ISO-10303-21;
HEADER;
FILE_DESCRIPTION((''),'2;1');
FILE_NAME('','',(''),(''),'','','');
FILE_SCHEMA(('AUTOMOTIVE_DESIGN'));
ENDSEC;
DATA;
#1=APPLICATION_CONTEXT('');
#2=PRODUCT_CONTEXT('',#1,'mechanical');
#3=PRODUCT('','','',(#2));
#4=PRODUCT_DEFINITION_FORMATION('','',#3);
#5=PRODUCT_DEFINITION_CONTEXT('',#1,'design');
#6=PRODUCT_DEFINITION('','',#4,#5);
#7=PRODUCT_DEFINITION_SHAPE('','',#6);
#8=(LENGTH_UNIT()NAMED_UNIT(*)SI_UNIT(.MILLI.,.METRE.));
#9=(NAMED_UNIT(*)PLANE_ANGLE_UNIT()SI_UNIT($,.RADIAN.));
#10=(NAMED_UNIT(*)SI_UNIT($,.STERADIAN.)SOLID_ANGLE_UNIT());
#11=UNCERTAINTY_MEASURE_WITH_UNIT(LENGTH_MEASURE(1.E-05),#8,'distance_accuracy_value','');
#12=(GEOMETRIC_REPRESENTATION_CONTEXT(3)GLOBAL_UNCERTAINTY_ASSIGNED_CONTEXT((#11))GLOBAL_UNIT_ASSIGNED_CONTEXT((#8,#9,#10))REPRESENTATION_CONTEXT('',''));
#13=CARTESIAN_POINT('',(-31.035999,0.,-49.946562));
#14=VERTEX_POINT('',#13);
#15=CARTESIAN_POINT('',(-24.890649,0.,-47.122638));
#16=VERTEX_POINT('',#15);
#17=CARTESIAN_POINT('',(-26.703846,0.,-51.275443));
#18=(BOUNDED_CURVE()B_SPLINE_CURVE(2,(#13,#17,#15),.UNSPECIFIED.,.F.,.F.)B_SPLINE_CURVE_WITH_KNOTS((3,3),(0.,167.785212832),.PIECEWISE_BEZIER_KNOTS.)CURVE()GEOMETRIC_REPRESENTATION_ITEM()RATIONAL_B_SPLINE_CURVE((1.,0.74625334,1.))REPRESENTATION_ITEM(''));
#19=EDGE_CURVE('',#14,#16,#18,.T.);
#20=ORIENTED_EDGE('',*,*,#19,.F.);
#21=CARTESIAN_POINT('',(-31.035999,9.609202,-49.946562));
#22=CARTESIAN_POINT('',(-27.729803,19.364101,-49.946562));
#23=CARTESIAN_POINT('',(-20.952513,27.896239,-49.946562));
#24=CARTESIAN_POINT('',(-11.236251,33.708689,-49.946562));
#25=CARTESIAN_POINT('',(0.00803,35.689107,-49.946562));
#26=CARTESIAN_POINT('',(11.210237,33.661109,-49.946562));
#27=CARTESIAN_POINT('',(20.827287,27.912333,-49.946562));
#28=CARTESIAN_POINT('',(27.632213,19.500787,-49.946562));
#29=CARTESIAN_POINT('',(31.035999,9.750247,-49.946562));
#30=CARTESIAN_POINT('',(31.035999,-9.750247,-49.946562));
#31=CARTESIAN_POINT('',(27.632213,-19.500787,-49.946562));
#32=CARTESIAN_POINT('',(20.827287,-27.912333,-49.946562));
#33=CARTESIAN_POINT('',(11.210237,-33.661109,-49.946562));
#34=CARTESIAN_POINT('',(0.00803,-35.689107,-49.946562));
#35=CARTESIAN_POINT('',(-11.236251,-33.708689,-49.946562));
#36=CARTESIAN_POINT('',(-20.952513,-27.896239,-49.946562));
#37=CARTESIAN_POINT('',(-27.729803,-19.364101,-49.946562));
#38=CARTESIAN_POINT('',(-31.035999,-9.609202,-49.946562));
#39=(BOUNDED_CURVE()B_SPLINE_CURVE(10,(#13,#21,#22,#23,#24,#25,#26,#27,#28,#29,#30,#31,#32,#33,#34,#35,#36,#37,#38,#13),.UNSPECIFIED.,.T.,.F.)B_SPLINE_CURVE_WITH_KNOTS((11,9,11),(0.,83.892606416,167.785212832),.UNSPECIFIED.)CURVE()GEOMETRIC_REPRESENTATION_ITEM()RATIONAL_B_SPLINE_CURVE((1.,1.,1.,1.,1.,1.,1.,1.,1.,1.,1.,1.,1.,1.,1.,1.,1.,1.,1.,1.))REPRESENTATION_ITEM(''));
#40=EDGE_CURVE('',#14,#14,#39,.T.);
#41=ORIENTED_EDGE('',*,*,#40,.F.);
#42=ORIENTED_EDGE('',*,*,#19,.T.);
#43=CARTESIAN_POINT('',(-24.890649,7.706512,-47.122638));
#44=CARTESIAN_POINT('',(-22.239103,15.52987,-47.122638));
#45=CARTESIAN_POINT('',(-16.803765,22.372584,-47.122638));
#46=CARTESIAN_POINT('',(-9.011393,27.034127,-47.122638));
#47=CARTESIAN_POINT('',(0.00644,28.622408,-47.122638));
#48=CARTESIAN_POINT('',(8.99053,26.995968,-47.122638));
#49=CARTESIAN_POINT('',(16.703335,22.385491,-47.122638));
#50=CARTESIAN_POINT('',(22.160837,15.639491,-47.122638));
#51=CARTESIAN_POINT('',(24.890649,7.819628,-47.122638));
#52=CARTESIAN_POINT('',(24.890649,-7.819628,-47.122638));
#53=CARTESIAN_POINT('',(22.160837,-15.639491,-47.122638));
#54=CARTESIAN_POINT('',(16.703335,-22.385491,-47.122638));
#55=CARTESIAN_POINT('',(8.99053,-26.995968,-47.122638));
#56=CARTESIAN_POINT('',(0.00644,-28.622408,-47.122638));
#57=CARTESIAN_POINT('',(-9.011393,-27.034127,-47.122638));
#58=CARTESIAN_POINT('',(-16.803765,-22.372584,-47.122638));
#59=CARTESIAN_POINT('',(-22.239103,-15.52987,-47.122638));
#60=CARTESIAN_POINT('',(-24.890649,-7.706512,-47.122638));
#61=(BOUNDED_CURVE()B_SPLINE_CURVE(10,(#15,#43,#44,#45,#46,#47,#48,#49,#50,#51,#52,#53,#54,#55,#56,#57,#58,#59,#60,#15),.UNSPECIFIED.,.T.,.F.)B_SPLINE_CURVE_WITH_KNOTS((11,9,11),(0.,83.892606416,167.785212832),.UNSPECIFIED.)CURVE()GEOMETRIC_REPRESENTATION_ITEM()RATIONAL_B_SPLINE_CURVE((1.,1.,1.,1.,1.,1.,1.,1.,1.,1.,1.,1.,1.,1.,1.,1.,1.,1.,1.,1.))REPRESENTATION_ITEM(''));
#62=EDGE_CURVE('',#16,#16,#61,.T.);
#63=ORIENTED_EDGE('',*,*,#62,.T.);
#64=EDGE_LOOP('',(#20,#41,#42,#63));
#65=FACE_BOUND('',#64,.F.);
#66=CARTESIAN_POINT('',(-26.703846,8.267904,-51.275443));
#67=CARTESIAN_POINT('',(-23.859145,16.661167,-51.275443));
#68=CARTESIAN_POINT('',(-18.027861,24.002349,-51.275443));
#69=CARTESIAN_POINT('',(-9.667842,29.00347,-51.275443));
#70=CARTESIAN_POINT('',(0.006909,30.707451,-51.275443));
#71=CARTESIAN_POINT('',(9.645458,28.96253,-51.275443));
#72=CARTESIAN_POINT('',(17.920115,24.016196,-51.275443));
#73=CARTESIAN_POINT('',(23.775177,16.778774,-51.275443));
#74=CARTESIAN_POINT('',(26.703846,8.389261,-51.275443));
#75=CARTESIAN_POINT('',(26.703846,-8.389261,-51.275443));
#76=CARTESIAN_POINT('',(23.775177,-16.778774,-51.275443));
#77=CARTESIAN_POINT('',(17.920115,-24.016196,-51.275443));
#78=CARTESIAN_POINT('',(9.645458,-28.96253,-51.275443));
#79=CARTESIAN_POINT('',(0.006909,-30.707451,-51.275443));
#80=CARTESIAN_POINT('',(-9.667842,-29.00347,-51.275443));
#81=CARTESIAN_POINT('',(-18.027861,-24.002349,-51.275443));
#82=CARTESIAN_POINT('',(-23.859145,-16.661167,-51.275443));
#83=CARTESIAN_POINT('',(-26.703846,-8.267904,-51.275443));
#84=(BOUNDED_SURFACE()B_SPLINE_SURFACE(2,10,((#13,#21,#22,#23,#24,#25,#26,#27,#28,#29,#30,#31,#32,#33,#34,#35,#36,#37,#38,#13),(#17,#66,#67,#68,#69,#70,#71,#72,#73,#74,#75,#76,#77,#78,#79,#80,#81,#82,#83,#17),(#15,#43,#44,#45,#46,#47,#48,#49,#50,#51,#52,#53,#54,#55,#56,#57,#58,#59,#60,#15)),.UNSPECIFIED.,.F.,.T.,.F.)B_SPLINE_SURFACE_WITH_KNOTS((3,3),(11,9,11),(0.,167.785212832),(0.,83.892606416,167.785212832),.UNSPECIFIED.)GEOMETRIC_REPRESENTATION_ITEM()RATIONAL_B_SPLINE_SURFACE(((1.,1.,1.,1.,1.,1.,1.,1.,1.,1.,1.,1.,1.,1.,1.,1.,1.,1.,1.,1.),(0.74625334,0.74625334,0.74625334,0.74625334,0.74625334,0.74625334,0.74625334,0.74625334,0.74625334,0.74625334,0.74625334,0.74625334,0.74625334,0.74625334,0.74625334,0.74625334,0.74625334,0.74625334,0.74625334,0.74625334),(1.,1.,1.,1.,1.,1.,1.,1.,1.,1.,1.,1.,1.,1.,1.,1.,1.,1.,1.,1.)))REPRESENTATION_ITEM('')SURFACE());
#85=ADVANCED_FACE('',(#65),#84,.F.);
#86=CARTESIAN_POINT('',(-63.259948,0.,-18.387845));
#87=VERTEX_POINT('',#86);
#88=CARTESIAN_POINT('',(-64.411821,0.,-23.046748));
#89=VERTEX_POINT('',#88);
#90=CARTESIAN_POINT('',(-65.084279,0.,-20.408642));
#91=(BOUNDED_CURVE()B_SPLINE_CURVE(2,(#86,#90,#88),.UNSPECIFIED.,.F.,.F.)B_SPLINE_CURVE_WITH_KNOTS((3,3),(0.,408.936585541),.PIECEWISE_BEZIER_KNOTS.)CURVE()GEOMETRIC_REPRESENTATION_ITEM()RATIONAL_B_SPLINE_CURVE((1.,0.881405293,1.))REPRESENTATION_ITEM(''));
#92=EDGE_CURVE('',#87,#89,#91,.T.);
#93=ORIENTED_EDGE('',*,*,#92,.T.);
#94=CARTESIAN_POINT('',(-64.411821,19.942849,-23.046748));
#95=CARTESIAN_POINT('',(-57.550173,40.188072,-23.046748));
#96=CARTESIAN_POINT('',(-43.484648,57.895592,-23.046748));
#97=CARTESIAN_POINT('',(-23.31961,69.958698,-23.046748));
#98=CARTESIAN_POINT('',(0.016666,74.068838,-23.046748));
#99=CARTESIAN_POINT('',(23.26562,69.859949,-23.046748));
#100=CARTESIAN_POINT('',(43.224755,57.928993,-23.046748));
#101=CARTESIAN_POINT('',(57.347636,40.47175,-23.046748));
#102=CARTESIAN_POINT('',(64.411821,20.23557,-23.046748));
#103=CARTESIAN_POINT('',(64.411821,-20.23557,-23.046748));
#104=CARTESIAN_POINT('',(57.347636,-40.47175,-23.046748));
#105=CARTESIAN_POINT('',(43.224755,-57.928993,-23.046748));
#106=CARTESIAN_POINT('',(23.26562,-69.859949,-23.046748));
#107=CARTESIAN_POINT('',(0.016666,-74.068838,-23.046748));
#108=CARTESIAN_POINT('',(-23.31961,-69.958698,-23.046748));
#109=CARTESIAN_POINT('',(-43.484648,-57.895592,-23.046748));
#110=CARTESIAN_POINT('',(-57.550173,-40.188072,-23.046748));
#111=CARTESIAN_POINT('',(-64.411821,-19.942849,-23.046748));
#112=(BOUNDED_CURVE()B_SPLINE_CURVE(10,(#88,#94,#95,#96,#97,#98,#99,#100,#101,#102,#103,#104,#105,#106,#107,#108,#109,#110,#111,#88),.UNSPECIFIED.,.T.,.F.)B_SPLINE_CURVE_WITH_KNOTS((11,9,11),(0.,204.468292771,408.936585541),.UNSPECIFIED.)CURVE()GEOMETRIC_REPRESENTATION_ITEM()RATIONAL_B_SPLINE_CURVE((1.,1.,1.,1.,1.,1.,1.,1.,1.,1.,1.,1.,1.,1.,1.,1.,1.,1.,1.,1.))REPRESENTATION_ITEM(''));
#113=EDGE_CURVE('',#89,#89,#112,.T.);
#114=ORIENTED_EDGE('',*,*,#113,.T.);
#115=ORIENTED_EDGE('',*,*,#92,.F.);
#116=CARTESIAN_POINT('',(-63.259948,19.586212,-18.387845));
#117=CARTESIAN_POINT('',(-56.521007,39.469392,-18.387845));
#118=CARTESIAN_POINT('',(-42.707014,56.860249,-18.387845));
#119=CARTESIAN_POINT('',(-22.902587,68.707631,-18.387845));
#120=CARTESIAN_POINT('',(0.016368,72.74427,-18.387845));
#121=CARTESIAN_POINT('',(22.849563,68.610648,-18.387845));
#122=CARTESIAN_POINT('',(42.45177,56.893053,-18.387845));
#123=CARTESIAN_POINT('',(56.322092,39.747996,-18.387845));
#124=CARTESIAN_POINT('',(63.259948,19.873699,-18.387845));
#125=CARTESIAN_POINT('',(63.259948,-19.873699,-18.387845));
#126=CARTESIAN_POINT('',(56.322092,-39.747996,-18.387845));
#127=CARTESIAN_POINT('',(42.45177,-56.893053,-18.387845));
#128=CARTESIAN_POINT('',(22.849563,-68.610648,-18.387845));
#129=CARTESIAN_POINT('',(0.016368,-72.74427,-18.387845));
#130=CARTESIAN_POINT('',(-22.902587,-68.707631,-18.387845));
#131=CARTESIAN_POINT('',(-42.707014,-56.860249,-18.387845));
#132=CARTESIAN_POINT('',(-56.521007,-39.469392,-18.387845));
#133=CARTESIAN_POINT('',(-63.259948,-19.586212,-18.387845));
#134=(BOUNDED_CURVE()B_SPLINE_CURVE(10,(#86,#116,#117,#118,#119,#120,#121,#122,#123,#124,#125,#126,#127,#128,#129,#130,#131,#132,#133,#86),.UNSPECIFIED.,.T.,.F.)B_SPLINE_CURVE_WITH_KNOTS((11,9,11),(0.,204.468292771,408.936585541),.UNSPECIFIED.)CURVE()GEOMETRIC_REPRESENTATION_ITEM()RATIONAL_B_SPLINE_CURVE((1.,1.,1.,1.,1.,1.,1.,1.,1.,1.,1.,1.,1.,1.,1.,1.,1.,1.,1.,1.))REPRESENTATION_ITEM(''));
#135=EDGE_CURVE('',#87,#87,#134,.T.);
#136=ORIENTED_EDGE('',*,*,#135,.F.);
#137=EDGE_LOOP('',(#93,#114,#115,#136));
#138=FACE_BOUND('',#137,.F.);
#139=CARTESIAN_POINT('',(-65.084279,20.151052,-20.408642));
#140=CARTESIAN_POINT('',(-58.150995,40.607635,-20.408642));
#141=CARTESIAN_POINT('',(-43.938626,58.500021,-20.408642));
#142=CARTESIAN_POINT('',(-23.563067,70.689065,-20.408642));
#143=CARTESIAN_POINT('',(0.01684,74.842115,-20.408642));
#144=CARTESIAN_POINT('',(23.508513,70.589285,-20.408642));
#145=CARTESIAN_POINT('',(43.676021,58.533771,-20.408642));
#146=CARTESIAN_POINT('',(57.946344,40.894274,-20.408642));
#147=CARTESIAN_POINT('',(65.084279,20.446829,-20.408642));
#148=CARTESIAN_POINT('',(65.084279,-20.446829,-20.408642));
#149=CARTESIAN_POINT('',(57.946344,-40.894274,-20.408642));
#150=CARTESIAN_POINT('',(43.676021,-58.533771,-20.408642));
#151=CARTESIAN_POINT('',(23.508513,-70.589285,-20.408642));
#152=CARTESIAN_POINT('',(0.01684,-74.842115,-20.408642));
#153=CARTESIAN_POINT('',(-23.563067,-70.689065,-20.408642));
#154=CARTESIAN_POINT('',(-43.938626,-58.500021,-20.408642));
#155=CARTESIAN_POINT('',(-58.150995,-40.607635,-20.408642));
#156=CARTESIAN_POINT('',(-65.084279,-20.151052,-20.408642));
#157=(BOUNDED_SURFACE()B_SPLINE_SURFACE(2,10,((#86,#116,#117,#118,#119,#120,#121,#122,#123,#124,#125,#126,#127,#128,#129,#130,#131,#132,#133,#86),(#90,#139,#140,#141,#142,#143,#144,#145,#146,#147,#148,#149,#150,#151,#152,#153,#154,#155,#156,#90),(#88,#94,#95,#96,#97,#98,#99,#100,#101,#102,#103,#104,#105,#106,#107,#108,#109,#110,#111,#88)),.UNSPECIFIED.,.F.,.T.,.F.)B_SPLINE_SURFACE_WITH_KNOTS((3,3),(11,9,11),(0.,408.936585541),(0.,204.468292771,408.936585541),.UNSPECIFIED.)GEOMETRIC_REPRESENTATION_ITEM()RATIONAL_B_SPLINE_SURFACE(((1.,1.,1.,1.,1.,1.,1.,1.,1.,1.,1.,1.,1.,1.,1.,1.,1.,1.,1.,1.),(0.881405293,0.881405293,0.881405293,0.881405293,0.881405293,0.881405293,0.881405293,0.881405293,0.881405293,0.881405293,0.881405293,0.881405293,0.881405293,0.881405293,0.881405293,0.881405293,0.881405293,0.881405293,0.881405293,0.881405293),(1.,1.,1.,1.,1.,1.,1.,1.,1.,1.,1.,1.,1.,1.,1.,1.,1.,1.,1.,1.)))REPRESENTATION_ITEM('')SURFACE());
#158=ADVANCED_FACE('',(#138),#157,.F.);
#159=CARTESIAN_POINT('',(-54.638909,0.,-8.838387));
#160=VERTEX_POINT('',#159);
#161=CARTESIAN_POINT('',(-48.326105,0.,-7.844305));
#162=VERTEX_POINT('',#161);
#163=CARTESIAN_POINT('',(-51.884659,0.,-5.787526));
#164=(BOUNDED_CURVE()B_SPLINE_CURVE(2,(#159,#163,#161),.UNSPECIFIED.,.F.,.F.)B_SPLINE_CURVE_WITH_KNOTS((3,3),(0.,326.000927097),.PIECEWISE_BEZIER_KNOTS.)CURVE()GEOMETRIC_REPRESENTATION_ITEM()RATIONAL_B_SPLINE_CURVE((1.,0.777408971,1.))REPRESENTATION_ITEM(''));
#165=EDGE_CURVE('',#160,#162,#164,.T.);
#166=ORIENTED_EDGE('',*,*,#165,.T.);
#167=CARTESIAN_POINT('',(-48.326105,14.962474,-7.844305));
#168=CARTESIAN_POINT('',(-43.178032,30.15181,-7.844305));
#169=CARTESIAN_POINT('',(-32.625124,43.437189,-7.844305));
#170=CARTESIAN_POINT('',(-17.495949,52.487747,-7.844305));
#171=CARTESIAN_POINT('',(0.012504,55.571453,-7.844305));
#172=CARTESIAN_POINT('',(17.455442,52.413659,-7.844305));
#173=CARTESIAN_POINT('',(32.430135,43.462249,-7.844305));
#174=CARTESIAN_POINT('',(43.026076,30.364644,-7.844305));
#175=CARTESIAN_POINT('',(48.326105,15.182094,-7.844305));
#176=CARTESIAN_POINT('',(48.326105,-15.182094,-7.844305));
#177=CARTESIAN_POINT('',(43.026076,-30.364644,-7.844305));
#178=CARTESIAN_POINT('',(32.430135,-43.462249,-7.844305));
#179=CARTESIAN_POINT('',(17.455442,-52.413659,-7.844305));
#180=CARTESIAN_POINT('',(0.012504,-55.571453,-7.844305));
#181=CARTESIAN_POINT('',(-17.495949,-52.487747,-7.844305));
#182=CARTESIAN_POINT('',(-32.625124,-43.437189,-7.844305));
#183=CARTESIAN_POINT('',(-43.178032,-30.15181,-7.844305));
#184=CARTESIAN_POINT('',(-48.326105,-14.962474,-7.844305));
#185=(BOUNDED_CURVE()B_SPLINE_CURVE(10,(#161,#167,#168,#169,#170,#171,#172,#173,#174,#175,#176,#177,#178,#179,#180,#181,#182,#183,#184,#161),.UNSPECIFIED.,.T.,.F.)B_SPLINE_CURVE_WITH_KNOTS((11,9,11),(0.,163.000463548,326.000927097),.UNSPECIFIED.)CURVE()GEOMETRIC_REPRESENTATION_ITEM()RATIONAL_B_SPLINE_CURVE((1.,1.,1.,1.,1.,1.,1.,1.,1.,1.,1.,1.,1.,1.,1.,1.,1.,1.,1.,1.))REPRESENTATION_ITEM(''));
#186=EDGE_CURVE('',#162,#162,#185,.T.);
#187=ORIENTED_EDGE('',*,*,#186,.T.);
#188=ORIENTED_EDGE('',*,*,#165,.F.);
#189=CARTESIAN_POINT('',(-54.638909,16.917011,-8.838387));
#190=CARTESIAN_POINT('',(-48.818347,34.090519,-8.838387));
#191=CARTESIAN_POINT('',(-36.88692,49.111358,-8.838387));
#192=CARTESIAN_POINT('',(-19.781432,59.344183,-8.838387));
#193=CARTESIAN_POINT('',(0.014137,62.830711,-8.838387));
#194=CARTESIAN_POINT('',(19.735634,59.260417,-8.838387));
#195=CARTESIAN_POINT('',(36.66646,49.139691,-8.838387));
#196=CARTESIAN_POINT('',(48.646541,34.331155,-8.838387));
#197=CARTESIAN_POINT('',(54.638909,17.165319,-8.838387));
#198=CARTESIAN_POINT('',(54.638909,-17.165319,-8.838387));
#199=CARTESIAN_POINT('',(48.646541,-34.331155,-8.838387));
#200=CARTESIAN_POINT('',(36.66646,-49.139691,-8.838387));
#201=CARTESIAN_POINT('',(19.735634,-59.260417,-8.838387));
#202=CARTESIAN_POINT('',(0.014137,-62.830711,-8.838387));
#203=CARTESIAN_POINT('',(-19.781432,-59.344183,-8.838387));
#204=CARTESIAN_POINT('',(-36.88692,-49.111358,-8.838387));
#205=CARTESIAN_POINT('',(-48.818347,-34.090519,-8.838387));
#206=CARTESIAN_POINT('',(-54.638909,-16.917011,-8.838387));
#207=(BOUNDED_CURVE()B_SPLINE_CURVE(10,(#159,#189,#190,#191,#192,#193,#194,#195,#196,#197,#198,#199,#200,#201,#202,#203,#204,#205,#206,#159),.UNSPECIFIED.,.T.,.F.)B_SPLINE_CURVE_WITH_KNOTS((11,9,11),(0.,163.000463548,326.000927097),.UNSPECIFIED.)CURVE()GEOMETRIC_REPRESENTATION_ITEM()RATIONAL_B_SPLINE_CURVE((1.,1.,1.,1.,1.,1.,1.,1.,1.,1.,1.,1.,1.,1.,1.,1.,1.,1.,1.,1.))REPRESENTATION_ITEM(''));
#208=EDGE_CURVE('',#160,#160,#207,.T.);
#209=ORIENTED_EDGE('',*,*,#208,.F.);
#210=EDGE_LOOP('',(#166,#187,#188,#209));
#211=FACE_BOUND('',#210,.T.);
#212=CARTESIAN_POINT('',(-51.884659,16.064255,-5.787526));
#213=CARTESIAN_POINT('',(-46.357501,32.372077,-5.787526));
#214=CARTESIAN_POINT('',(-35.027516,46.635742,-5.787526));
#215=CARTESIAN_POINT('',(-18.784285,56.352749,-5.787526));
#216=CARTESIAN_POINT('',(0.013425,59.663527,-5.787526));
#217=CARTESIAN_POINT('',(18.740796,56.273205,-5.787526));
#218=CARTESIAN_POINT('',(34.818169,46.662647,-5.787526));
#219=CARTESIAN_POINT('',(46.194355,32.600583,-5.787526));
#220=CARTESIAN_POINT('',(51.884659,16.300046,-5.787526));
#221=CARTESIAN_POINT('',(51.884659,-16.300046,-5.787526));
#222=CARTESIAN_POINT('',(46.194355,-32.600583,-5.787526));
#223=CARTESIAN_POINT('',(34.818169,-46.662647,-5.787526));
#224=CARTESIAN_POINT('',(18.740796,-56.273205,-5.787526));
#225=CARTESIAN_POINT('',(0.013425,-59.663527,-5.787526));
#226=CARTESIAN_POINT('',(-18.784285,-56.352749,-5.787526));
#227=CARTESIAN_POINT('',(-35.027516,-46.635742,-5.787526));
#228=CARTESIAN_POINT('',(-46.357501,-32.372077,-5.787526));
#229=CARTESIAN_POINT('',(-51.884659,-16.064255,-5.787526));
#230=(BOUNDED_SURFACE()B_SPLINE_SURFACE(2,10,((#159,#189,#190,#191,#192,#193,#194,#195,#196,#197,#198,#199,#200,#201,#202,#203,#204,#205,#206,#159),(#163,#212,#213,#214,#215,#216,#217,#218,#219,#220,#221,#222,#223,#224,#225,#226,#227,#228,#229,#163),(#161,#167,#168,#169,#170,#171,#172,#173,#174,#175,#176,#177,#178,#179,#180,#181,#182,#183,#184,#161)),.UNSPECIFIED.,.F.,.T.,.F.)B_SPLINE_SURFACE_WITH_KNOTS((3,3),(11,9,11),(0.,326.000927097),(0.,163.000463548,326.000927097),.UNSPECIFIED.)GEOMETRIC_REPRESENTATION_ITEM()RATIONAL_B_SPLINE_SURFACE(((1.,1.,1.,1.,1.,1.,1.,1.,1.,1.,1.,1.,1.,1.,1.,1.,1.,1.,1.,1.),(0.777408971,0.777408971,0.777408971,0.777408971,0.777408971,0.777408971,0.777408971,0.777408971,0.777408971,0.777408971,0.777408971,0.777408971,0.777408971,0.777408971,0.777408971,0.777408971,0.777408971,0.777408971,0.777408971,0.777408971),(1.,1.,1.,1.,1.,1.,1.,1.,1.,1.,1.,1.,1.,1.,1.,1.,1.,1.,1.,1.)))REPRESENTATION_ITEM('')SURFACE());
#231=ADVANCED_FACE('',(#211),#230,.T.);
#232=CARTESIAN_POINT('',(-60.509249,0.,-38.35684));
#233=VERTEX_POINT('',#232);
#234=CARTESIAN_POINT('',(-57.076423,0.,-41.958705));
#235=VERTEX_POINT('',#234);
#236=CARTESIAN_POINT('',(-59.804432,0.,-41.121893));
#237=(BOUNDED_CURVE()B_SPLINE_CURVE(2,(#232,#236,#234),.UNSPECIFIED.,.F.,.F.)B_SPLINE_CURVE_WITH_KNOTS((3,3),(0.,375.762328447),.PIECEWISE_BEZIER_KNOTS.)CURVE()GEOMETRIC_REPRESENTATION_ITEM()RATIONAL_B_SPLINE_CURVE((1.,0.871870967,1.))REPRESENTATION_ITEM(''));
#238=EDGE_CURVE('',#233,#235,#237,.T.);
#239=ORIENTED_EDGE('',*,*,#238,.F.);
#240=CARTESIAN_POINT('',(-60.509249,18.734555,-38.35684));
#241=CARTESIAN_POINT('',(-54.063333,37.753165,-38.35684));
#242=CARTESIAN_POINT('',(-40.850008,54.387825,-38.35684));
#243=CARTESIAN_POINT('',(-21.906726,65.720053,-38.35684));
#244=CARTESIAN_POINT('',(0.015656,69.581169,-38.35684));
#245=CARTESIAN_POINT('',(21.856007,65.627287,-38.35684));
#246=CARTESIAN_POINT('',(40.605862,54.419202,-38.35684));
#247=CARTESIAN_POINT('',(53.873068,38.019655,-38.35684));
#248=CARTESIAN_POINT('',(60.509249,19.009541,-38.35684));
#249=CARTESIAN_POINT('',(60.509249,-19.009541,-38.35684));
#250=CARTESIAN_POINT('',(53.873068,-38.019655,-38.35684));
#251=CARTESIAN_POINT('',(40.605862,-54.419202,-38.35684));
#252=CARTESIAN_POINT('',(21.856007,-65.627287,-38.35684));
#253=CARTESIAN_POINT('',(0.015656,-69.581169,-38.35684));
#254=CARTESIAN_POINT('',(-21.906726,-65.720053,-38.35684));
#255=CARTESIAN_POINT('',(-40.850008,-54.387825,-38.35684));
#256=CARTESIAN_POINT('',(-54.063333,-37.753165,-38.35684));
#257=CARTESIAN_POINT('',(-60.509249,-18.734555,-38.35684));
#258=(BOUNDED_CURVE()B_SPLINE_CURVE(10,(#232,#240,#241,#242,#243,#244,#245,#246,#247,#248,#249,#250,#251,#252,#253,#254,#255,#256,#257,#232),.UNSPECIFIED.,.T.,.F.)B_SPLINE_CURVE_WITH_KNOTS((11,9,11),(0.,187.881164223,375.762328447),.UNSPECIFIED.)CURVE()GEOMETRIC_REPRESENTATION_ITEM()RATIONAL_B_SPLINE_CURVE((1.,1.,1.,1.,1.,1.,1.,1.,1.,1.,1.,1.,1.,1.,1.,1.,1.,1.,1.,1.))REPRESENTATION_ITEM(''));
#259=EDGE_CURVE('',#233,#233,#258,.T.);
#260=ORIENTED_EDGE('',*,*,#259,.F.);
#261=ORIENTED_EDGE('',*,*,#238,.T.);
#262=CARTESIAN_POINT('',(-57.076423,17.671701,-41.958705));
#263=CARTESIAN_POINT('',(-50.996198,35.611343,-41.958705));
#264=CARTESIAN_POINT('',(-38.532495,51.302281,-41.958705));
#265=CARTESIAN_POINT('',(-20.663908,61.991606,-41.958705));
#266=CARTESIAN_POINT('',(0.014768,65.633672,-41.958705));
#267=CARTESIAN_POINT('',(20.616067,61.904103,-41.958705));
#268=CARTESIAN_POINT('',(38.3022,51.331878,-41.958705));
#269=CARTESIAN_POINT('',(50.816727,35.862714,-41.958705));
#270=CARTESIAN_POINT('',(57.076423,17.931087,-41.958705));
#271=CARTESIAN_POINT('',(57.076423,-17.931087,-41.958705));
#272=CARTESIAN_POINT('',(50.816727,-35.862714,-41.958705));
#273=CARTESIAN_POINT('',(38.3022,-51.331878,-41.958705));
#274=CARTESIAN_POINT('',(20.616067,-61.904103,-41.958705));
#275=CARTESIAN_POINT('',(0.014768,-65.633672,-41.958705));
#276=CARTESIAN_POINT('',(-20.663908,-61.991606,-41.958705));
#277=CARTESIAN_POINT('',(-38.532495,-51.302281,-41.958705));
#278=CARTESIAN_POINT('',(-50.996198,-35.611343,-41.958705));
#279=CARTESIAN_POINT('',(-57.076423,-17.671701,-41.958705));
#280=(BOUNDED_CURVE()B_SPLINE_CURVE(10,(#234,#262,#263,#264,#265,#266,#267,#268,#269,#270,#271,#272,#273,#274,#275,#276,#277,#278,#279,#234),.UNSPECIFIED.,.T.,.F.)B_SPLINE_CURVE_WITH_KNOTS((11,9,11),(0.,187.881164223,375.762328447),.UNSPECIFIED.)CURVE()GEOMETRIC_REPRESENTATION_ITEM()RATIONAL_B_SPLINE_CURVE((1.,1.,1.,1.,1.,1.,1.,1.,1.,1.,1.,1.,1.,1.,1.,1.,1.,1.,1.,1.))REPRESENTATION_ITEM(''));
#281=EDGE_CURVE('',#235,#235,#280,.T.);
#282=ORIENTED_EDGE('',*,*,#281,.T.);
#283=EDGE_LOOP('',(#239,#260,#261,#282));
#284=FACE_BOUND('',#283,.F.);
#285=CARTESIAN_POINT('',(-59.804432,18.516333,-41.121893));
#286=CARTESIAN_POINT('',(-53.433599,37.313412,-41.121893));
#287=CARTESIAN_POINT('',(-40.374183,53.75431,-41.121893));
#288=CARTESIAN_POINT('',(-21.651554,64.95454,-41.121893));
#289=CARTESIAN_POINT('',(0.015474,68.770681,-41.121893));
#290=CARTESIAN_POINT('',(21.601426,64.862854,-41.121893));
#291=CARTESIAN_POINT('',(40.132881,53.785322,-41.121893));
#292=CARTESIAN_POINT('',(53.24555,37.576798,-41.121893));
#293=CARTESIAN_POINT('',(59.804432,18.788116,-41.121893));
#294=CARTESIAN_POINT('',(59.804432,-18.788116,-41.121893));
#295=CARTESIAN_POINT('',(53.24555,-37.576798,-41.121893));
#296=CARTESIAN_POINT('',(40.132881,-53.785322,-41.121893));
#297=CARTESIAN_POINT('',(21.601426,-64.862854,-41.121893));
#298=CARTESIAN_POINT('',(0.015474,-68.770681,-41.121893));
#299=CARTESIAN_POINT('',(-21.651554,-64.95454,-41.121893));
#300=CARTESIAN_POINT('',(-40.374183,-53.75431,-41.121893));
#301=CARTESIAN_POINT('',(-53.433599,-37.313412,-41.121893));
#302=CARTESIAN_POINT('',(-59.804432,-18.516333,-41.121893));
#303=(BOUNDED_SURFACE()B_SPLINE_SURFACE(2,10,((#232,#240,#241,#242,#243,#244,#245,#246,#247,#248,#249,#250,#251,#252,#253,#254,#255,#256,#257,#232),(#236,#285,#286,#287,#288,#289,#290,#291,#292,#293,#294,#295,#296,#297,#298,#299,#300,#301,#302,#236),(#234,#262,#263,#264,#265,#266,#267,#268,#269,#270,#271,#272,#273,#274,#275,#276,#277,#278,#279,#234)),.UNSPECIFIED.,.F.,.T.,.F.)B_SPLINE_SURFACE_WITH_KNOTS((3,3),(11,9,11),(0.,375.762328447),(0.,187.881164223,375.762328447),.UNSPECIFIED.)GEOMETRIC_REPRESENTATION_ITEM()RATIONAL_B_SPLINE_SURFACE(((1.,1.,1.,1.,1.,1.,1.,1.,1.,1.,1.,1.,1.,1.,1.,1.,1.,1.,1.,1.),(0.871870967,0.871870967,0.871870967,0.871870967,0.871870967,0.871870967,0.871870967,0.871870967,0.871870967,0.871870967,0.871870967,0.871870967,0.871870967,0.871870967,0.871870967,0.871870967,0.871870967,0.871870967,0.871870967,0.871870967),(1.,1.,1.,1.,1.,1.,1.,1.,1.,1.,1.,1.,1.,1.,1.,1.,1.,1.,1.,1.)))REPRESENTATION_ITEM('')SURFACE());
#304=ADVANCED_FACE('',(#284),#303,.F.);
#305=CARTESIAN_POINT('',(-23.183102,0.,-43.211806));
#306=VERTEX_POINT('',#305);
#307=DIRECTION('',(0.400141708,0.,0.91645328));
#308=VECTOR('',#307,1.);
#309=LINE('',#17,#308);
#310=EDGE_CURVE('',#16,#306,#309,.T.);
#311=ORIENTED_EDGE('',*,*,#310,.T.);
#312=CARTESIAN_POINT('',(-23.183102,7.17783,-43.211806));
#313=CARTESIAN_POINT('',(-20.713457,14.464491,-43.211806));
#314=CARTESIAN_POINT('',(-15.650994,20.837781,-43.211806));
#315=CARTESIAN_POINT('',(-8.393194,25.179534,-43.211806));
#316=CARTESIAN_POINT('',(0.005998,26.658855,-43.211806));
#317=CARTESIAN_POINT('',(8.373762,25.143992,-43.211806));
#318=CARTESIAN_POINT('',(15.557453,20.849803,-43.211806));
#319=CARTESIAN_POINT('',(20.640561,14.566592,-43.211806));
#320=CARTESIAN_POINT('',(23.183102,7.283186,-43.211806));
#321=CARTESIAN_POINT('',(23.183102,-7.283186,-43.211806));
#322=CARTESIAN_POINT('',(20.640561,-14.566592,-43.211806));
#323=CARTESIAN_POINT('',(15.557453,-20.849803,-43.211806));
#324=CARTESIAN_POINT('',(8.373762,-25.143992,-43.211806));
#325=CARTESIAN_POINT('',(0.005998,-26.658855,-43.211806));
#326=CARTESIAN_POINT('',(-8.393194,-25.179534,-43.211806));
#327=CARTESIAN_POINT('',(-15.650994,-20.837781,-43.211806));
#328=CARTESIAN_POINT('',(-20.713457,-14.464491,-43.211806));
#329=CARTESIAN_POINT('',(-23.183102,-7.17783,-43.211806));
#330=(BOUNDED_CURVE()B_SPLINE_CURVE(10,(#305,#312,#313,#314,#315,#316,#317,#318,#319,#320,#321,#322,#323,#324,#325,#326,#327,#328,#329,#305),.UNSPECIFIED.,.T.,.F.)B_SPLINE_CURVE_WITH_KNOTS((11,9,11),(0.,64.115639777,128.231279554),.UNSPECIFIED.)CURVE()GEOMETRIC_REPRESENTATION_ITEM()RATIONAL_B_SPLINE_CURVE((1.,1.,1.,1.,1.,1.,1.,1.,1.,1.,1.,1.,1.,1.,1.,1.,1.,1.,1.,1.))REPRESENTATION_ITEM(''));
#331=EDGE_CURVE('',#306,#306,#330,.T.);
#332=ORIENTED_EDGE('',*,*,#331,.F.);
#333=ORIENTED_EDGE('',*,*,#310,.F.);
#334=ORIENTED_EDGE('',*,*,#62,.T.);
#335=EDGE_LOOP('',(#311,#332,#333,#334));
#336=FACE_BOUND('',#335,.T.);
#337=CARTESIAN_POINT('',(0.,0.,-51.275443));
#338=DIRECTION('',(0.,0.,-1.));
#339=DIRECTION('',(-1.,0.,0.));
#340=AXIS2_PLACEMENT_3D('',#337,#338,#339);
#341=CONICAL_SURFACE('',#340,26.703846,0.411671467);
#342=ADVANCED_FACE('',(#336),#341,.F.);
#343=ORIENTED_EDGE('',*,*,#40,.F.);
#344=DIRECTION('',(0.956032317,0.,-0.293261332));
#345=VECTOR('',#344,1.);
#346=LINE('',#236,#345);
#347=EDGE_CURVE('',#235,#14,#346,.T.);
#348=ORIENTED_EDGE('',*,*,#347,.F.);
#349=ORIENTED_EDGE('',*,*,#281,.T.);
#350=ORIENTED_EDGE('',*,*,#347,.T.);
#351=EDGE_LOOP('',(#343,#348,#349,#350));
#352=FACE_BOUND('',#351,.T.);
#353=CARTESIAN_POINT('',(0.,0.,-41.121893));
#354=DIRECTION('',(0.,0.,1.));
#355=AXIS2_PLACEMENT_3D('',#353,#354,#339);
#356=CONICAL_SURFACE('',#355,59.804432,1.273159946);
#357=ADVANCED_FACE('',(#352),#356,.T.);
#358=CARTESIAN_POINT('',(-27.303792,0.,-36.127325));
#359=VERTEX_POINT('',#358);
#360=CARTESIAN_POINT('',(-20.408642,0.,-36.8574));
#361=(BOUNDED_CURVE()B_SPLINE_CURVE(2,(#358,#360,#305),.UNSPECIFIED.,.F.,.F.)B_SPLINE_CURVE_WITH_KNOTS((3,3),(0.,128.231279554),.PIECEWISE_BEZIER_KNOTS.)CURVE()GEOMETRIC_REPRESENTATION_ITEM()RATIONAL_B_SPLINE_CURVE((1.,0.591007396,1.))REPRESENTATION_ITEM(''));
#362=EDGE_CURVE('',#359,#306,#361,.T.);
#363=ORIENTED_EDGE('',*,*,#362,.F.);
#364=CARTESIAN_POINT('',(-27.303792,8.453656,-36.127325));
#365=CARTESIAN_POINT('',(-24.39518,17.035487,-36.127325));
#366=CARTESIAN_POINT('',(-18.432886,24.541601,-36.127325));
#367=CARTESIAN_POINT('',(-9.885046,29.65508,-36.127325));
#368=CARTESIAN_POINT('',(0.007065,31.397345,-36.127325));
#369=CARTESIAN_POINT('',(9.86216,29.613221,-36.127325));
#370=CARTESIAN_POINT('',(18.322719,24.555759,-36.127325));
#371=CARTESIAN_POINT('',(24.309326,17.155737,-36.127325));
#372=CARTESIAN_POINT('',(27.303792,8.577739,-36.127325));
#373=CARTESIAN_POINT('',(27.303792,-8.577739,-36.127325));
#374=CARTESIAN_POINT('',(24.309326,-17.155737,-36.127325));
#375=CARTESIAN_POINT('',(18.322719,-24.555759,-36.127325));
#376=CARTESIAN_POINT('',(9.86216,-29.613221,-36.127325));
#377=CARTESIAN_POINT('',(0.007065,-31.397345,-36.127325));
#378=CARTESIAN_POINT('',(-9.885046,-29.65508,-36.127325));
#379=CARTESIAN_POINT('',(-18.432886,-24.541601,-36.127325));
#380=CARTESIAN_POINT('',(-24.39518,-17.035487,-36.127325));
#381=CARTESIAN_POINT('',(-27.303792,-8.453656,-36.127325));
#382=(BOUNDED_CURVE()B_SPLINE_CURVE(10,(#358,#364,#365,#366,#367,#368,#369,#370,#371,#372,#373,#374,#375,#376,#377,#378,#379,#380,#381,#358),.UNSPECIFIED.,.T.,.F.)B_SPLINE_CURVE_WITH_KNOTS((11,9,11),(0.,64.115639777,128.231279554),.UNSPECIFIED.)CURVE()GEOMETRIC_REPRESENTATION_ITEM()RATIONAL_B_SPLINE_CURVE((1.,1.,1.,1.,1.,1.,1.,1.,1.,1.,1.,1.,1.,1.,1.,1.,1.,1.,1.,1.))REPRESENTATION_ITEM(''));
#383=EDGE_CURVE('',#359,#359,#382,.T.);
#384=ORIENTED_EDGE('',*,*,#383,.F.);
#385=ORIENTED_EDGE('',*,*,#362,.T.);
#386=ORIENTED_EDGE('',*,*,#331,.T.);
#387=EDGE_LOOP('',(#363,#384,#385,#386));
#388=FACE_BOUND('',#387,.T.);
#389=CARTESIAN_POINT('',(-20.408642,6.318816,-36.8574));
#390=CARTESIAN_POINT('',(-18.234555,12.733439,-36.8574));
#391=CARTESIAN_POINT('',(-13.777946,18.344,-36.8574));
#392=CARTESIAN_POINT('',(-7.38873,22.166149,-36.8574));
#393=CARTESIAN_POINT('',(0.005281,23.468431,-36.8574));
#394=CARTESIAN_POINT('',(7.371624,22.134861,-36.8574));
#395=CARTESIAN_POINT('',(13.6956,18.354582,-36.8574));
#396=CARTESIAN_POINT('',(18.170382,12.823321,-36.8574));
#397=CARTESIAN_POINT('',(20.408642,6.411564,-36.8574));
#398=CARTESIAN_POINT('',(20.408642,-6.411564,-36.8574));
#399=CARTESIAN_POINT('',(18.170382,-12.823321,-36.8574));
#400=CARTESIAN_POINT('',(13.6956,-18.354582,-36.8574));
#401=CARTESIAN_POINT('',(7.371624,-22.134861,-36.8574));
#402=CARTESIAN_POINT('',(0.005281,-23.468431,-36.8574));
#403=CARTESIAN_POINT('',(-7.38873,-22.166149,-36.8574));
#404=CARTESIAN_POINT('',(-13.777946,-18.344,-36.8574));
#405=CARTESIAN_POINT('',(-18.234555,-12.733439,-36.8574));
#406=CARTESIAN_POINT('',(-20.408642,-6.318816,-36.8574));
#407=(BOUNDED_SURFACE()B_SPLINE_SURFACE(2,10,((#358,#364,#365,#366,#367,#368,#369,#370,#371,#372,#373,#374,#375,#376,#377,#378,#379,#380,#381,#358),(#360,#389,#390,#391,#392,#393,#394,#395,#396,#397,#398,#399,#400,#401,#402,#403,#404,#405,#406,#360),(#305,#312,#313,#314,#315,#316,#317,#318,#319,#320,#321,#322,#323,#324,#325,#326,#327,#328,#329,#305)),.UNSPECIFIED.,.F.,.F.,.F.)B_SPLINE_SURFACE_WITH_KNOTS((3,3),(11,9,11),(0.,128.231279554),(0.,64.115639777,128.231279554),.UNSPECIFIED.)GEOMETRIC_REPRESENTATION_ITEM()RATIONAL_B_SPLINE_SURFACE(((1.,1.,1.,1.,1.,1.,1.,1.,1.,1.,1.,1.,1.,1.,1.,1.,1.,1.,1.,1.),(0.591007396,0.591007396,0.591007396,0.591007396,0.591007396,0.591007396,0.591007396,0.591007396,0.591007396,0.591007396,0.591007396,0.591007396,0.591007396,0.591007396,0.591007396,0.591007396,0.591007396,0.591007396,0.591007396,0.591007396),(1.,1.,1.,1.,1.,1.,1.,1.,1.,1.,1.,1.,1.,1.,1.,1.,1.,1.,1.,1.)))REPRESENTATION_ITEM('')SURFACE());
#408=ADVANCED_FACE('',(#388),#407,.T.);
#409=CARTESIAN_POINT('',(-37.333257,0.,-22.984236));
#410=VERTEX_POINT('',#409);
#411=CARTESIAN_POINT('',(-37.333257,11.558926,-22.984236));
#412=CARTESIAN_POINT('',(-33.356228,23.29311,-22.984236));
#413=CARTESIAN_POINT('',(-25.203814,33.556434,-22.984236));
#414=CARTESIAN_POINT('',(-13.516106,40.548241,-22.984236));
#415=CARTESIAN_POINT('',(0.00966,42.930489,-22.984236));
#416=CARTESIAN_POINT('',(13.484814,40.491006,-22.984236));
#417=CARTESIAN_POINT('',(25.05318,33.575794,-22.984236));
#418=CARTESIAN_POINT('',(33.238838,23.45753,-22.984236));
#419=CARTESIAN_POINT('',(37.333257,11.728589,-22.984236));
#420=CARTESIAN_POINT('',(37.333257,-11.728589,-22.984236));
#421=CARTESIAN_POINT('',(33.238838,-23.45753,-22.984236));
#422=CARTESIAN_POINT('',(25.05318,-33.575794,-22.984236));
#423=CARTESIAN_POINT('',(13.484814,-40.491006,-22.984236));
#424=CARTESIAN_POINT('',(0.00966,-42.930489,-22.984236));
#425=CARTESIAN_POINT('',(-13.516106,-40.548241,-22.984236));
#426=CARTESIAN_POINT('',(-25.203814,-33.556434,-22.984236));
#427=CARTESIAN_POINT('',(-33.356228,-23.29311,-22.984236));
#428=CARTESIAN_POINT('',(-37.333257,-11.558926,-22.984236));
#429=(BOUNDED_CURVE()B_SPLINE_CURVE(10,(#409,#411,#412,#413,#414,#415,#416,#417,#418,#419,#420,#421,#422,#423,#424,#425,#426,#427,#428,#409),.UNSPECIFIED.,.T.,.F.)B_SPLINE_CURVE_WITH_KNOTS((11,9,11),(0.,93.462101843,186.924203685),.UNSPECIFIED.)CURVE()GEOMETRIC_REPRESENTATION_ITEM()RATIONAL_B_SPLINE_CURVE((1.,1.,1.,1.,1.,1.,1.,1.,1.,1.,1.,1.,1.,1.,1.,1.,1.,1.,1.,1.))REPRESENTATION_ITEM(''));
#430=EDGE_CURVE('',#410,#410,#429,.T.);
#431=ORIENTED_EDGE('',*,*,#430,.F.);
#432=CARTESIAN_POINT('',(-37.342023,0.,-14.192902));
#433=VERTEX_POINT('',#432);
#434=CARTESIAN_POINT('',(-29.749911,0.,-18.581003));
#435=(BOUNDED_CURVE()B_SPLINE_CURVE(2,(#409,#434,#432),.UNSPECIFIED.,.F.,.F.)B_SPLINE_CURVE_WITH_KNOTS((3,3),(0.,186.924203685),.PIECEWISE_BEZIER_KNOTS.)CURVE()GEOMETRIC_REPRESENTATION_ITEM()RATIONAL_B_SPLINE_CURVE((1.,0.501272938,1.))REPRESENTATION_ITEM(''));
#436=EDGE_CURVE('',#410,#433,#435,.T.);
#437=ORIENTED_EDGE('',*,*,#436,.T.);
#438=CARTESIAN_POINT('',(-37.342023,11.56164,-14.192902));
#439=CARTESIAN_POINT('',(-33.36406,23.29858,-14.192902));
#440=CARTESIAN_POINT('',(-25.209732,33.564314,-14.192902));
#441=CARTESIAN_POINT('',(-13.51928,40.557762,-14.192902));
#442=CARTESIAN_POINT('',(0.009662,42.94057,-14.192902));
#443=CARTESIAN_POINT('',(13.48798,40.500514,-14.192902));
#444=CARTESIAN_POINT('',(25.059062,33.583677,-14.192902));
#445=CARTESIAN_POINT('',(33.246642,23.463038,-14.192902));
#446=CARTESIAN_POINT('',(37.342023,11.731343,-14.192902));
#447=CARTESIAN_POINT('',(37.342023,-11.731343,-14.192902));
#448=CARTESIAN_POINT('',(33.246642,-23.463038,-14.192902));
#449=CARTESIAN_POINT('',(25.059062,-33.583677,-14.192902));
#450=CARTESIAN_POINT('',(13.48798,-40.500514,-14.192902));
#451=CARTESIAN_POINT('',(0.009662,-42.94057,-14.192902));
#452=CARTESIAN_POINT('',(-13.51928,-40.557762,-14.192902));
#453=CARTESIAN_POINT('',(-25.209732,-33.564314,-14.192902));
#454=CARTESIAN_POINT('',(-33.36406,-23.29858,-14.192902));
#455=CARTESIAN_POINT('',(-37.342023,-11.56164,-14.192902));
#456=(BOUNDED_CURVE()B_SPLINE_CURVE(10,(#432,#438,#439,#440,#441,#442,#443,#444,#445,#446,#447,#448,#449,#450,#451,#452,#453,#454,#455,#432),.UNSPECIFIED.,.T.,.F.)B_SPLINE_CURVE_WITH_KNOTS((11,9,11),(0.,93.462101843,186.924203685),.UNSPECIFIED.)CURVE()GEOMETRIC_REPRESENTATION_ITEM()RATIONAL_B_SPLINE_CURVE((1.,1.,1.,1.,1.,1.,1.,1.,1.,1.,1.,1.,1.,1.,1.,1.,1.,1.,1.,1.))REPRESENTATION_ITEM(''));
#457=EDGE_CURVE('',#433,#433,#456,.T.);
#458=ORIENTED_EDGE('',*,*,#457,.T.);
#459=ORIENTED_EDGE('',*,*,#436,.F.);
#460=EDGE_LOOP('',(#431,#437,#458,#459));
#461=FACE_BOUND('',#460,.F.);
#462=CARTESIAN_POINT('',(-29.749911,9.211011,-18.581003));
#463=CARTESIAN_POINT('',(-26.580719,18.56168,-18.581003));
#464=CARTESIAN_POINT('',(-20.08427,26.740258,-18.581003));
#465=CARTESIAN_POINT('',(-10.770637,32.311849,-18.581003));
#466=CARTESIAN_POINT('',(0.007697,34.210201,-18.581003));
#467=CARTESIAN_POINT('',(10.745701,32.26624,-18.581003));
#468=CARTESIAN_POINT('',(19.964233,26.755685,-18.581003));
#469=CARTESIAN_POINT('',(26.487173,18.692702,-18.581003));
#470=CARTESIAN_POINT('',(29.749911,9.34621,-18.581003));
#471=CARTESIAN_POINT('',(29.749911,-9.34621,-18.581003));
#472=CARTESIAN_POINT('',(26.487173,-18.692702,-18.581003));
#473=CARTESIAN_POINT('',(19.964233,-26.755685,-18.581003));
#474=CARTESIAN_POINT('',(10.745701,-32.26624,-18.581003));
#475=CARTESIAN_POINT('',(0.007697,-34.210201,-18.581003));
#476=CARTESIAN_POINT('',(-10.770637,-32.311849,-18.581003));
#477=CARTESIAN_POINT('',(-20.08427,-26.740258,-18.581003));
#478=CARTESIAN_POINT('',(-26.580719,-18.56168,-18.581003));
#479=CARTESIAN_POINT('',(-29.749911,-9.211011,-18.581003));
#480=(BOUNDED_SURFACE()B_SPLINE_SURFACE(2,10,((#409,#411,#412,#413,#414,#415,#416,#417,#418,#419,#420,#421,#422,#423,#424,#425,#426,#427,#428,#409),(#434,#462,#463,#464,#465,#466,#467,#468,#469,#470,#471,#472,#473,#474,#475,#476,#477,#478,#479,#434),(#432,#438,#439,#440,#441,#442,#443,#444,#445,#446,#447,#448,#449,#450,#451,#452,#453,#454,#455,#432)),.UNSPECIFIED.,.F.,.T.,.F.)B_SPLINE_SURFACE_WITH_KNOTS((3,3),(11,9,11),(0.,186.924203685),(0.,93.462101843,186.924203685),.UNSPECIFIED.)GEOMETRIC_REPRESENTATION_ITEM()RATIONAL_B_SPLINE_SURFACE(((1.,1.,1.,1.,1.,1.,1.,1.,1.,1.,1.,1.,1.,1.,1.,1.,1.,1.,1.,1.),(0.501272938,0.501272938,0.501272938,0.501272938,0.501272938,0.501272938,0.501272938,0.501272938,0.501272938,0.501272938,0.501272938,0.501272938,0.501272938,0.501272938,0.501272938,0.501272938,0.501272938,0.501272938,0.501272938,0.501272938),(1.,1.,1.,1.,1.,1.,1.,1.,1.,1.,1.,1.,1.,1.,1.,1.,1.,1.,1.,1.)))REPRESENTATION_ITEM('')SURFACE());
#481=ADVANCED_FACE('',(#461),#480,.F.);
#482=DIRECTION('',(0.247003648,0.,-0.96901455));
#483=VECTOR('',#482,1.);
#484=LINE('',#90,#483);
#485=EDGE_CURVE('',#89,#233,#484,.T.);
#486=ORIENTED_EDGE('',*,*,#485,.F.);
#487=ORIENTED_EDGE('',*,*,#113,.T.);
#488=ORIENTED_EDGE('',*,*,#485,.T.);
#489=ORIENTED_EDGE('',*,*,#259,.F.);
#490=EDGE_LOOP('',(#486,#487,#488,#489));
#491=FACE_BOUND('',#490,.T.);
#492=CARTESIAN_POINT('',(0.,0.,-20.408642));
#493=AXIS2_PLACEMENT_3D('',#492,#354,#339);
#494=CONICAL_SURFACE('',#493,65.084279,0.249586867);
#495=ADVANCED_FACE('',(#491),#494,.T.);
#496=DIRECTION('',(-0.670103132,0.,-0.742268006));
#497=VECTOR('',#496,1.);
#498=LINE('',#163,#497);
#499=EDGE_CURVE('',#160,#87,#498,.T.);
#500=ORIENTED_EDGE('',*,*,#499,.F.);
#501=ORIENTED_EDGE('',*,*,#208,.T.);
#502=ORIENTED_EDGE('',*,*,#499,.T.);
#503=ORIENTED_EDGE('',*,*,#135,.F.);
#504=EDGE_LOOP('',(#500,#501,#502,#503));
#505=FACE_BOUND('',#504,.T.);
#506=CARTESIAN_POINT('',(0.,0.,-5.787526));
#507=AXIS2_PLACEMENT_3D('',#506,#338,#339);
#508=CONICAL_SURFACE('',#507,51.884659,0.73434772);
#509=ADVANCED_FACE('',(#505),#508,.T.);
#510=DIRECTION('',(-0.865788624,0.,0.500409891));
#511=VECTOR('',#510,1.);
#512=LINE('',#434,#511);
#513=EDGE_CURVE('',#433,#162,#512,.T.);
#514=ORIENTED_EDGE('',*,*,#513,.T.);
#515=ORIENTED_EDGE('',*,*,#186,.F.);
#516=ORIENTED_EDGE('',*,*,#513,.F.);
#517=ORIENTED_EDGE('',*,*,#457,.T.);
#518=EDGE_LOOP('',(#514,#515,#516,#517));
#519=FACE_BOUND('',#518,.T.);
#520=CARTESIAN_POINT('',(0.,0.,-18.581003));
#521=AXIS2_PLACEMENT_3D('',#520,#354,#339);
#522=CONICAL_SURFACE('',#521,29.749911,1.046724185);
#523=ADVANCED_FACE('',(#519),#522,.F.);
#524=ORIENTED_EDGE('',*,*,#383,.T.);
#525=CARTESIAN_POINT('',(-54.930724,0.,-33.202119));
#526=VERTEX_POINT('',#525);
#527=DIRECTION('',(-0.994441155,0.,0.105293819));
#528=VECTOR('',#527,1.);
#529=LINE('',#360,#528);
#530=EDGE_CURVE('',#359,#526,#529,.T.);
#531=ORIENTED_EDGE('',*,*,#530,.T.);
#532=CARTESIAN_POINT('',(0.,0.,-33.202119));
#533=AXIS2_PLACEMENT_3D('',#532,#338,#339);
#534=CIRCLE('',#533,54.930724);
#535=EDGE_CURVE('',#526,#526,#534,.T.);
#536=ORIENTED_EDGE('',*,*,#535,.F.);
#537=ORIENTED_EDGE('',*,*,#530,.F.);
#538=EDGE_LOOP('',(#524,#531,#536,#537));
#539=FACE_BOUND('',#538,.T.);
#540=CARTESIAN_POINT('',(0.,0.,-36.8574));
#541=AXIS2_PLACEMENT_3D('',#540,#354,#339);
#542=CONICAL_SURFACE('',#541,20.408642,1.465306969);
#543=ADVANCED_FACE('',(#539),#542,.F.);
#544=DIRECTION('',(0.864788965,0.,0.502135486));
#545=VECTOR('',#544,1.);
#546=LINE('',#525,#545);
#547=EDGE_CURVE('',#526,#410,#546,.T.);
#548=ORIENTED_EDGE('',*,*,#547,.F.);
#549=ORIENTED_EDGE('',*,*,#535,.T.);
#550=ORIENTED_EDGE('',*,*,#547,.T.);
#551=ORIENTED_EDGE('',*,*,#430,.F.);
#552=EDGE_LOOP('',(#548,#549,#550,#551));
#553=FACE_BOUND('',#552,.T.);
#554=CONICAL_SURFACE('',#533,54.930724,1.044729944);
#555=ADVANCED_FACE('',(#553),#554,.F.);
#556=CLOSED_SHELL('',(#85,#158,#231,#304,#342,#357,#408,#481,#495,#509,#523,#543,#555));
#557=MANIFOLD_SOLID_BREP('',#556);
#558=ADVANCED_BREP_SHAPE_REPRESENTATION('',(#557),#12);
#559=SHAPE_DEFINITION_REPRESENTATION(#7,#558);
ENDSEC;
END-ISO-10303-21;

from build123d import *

# Parameters (mm, degrees)
F3_R = 5.08
F4_R = 5.08
F5_R = 5.08
F6_R = 5.08
F7_R = 5.08
F8_R = 5.08


with BuildPart() as f2:
    # F0 (on Front) → F2 (revolve)
    with BuildSketch(Plane.XZ):
        Polygon((-51.884659, -5.787526), (-65.084279, -20.408642), (-59.804432, -41.121893), (-26.703846, -51.275443), (-20.408642, -36.8574), (-54.930724, -33.202119), (-29.749911, -18.581003), align=None)
    revolve(axis=Axis((0, 0, -2.335318), (0, 0, -1)))

    # F3
    f3_edges = [f2.edges().sort_by_distance(p)[0] for p in [
        (51.884659, 0, -5.787526),
    ]]
    fillet(f3_edges, radius=F3_R)

    # F4
    f4_edges = [f2.edges().sort_by_distance(p)[0] for p in [
        (65.084279, 0, -20.408642),
    ]]
    fillet(f4_edges, radius=F4_R)

    # F5
    f5_edges = [f2.edges().sort_by_distance(p)[0] for p in [
        (59.804432, 0, -41.121893),
    ]]
    fillet(f5_edges, radius=F5_R)

    # F6
    f6_edges = [f2.edges().sort_by_distance(p)[0] for p in [
        (26.703846, 0, -51.275443),
    ]]
    fillet(f6_edges, radius=F6_R)

    # F7
    f7_edges = [f2.edges().sort_by_distance(p)[0] for p in [
        (29.749911, 0, -18.581003),
    ]]
    fillet(f7_edges, radius=F7_R)

    # F8
    f8_edges = [f2.edges().sort_by_distance(p)[0] for p in [
        (20.408642, 0, -36.8574),
    ]]
    fillet(f8_edges, radius=F8_R)


solid = f2.part
